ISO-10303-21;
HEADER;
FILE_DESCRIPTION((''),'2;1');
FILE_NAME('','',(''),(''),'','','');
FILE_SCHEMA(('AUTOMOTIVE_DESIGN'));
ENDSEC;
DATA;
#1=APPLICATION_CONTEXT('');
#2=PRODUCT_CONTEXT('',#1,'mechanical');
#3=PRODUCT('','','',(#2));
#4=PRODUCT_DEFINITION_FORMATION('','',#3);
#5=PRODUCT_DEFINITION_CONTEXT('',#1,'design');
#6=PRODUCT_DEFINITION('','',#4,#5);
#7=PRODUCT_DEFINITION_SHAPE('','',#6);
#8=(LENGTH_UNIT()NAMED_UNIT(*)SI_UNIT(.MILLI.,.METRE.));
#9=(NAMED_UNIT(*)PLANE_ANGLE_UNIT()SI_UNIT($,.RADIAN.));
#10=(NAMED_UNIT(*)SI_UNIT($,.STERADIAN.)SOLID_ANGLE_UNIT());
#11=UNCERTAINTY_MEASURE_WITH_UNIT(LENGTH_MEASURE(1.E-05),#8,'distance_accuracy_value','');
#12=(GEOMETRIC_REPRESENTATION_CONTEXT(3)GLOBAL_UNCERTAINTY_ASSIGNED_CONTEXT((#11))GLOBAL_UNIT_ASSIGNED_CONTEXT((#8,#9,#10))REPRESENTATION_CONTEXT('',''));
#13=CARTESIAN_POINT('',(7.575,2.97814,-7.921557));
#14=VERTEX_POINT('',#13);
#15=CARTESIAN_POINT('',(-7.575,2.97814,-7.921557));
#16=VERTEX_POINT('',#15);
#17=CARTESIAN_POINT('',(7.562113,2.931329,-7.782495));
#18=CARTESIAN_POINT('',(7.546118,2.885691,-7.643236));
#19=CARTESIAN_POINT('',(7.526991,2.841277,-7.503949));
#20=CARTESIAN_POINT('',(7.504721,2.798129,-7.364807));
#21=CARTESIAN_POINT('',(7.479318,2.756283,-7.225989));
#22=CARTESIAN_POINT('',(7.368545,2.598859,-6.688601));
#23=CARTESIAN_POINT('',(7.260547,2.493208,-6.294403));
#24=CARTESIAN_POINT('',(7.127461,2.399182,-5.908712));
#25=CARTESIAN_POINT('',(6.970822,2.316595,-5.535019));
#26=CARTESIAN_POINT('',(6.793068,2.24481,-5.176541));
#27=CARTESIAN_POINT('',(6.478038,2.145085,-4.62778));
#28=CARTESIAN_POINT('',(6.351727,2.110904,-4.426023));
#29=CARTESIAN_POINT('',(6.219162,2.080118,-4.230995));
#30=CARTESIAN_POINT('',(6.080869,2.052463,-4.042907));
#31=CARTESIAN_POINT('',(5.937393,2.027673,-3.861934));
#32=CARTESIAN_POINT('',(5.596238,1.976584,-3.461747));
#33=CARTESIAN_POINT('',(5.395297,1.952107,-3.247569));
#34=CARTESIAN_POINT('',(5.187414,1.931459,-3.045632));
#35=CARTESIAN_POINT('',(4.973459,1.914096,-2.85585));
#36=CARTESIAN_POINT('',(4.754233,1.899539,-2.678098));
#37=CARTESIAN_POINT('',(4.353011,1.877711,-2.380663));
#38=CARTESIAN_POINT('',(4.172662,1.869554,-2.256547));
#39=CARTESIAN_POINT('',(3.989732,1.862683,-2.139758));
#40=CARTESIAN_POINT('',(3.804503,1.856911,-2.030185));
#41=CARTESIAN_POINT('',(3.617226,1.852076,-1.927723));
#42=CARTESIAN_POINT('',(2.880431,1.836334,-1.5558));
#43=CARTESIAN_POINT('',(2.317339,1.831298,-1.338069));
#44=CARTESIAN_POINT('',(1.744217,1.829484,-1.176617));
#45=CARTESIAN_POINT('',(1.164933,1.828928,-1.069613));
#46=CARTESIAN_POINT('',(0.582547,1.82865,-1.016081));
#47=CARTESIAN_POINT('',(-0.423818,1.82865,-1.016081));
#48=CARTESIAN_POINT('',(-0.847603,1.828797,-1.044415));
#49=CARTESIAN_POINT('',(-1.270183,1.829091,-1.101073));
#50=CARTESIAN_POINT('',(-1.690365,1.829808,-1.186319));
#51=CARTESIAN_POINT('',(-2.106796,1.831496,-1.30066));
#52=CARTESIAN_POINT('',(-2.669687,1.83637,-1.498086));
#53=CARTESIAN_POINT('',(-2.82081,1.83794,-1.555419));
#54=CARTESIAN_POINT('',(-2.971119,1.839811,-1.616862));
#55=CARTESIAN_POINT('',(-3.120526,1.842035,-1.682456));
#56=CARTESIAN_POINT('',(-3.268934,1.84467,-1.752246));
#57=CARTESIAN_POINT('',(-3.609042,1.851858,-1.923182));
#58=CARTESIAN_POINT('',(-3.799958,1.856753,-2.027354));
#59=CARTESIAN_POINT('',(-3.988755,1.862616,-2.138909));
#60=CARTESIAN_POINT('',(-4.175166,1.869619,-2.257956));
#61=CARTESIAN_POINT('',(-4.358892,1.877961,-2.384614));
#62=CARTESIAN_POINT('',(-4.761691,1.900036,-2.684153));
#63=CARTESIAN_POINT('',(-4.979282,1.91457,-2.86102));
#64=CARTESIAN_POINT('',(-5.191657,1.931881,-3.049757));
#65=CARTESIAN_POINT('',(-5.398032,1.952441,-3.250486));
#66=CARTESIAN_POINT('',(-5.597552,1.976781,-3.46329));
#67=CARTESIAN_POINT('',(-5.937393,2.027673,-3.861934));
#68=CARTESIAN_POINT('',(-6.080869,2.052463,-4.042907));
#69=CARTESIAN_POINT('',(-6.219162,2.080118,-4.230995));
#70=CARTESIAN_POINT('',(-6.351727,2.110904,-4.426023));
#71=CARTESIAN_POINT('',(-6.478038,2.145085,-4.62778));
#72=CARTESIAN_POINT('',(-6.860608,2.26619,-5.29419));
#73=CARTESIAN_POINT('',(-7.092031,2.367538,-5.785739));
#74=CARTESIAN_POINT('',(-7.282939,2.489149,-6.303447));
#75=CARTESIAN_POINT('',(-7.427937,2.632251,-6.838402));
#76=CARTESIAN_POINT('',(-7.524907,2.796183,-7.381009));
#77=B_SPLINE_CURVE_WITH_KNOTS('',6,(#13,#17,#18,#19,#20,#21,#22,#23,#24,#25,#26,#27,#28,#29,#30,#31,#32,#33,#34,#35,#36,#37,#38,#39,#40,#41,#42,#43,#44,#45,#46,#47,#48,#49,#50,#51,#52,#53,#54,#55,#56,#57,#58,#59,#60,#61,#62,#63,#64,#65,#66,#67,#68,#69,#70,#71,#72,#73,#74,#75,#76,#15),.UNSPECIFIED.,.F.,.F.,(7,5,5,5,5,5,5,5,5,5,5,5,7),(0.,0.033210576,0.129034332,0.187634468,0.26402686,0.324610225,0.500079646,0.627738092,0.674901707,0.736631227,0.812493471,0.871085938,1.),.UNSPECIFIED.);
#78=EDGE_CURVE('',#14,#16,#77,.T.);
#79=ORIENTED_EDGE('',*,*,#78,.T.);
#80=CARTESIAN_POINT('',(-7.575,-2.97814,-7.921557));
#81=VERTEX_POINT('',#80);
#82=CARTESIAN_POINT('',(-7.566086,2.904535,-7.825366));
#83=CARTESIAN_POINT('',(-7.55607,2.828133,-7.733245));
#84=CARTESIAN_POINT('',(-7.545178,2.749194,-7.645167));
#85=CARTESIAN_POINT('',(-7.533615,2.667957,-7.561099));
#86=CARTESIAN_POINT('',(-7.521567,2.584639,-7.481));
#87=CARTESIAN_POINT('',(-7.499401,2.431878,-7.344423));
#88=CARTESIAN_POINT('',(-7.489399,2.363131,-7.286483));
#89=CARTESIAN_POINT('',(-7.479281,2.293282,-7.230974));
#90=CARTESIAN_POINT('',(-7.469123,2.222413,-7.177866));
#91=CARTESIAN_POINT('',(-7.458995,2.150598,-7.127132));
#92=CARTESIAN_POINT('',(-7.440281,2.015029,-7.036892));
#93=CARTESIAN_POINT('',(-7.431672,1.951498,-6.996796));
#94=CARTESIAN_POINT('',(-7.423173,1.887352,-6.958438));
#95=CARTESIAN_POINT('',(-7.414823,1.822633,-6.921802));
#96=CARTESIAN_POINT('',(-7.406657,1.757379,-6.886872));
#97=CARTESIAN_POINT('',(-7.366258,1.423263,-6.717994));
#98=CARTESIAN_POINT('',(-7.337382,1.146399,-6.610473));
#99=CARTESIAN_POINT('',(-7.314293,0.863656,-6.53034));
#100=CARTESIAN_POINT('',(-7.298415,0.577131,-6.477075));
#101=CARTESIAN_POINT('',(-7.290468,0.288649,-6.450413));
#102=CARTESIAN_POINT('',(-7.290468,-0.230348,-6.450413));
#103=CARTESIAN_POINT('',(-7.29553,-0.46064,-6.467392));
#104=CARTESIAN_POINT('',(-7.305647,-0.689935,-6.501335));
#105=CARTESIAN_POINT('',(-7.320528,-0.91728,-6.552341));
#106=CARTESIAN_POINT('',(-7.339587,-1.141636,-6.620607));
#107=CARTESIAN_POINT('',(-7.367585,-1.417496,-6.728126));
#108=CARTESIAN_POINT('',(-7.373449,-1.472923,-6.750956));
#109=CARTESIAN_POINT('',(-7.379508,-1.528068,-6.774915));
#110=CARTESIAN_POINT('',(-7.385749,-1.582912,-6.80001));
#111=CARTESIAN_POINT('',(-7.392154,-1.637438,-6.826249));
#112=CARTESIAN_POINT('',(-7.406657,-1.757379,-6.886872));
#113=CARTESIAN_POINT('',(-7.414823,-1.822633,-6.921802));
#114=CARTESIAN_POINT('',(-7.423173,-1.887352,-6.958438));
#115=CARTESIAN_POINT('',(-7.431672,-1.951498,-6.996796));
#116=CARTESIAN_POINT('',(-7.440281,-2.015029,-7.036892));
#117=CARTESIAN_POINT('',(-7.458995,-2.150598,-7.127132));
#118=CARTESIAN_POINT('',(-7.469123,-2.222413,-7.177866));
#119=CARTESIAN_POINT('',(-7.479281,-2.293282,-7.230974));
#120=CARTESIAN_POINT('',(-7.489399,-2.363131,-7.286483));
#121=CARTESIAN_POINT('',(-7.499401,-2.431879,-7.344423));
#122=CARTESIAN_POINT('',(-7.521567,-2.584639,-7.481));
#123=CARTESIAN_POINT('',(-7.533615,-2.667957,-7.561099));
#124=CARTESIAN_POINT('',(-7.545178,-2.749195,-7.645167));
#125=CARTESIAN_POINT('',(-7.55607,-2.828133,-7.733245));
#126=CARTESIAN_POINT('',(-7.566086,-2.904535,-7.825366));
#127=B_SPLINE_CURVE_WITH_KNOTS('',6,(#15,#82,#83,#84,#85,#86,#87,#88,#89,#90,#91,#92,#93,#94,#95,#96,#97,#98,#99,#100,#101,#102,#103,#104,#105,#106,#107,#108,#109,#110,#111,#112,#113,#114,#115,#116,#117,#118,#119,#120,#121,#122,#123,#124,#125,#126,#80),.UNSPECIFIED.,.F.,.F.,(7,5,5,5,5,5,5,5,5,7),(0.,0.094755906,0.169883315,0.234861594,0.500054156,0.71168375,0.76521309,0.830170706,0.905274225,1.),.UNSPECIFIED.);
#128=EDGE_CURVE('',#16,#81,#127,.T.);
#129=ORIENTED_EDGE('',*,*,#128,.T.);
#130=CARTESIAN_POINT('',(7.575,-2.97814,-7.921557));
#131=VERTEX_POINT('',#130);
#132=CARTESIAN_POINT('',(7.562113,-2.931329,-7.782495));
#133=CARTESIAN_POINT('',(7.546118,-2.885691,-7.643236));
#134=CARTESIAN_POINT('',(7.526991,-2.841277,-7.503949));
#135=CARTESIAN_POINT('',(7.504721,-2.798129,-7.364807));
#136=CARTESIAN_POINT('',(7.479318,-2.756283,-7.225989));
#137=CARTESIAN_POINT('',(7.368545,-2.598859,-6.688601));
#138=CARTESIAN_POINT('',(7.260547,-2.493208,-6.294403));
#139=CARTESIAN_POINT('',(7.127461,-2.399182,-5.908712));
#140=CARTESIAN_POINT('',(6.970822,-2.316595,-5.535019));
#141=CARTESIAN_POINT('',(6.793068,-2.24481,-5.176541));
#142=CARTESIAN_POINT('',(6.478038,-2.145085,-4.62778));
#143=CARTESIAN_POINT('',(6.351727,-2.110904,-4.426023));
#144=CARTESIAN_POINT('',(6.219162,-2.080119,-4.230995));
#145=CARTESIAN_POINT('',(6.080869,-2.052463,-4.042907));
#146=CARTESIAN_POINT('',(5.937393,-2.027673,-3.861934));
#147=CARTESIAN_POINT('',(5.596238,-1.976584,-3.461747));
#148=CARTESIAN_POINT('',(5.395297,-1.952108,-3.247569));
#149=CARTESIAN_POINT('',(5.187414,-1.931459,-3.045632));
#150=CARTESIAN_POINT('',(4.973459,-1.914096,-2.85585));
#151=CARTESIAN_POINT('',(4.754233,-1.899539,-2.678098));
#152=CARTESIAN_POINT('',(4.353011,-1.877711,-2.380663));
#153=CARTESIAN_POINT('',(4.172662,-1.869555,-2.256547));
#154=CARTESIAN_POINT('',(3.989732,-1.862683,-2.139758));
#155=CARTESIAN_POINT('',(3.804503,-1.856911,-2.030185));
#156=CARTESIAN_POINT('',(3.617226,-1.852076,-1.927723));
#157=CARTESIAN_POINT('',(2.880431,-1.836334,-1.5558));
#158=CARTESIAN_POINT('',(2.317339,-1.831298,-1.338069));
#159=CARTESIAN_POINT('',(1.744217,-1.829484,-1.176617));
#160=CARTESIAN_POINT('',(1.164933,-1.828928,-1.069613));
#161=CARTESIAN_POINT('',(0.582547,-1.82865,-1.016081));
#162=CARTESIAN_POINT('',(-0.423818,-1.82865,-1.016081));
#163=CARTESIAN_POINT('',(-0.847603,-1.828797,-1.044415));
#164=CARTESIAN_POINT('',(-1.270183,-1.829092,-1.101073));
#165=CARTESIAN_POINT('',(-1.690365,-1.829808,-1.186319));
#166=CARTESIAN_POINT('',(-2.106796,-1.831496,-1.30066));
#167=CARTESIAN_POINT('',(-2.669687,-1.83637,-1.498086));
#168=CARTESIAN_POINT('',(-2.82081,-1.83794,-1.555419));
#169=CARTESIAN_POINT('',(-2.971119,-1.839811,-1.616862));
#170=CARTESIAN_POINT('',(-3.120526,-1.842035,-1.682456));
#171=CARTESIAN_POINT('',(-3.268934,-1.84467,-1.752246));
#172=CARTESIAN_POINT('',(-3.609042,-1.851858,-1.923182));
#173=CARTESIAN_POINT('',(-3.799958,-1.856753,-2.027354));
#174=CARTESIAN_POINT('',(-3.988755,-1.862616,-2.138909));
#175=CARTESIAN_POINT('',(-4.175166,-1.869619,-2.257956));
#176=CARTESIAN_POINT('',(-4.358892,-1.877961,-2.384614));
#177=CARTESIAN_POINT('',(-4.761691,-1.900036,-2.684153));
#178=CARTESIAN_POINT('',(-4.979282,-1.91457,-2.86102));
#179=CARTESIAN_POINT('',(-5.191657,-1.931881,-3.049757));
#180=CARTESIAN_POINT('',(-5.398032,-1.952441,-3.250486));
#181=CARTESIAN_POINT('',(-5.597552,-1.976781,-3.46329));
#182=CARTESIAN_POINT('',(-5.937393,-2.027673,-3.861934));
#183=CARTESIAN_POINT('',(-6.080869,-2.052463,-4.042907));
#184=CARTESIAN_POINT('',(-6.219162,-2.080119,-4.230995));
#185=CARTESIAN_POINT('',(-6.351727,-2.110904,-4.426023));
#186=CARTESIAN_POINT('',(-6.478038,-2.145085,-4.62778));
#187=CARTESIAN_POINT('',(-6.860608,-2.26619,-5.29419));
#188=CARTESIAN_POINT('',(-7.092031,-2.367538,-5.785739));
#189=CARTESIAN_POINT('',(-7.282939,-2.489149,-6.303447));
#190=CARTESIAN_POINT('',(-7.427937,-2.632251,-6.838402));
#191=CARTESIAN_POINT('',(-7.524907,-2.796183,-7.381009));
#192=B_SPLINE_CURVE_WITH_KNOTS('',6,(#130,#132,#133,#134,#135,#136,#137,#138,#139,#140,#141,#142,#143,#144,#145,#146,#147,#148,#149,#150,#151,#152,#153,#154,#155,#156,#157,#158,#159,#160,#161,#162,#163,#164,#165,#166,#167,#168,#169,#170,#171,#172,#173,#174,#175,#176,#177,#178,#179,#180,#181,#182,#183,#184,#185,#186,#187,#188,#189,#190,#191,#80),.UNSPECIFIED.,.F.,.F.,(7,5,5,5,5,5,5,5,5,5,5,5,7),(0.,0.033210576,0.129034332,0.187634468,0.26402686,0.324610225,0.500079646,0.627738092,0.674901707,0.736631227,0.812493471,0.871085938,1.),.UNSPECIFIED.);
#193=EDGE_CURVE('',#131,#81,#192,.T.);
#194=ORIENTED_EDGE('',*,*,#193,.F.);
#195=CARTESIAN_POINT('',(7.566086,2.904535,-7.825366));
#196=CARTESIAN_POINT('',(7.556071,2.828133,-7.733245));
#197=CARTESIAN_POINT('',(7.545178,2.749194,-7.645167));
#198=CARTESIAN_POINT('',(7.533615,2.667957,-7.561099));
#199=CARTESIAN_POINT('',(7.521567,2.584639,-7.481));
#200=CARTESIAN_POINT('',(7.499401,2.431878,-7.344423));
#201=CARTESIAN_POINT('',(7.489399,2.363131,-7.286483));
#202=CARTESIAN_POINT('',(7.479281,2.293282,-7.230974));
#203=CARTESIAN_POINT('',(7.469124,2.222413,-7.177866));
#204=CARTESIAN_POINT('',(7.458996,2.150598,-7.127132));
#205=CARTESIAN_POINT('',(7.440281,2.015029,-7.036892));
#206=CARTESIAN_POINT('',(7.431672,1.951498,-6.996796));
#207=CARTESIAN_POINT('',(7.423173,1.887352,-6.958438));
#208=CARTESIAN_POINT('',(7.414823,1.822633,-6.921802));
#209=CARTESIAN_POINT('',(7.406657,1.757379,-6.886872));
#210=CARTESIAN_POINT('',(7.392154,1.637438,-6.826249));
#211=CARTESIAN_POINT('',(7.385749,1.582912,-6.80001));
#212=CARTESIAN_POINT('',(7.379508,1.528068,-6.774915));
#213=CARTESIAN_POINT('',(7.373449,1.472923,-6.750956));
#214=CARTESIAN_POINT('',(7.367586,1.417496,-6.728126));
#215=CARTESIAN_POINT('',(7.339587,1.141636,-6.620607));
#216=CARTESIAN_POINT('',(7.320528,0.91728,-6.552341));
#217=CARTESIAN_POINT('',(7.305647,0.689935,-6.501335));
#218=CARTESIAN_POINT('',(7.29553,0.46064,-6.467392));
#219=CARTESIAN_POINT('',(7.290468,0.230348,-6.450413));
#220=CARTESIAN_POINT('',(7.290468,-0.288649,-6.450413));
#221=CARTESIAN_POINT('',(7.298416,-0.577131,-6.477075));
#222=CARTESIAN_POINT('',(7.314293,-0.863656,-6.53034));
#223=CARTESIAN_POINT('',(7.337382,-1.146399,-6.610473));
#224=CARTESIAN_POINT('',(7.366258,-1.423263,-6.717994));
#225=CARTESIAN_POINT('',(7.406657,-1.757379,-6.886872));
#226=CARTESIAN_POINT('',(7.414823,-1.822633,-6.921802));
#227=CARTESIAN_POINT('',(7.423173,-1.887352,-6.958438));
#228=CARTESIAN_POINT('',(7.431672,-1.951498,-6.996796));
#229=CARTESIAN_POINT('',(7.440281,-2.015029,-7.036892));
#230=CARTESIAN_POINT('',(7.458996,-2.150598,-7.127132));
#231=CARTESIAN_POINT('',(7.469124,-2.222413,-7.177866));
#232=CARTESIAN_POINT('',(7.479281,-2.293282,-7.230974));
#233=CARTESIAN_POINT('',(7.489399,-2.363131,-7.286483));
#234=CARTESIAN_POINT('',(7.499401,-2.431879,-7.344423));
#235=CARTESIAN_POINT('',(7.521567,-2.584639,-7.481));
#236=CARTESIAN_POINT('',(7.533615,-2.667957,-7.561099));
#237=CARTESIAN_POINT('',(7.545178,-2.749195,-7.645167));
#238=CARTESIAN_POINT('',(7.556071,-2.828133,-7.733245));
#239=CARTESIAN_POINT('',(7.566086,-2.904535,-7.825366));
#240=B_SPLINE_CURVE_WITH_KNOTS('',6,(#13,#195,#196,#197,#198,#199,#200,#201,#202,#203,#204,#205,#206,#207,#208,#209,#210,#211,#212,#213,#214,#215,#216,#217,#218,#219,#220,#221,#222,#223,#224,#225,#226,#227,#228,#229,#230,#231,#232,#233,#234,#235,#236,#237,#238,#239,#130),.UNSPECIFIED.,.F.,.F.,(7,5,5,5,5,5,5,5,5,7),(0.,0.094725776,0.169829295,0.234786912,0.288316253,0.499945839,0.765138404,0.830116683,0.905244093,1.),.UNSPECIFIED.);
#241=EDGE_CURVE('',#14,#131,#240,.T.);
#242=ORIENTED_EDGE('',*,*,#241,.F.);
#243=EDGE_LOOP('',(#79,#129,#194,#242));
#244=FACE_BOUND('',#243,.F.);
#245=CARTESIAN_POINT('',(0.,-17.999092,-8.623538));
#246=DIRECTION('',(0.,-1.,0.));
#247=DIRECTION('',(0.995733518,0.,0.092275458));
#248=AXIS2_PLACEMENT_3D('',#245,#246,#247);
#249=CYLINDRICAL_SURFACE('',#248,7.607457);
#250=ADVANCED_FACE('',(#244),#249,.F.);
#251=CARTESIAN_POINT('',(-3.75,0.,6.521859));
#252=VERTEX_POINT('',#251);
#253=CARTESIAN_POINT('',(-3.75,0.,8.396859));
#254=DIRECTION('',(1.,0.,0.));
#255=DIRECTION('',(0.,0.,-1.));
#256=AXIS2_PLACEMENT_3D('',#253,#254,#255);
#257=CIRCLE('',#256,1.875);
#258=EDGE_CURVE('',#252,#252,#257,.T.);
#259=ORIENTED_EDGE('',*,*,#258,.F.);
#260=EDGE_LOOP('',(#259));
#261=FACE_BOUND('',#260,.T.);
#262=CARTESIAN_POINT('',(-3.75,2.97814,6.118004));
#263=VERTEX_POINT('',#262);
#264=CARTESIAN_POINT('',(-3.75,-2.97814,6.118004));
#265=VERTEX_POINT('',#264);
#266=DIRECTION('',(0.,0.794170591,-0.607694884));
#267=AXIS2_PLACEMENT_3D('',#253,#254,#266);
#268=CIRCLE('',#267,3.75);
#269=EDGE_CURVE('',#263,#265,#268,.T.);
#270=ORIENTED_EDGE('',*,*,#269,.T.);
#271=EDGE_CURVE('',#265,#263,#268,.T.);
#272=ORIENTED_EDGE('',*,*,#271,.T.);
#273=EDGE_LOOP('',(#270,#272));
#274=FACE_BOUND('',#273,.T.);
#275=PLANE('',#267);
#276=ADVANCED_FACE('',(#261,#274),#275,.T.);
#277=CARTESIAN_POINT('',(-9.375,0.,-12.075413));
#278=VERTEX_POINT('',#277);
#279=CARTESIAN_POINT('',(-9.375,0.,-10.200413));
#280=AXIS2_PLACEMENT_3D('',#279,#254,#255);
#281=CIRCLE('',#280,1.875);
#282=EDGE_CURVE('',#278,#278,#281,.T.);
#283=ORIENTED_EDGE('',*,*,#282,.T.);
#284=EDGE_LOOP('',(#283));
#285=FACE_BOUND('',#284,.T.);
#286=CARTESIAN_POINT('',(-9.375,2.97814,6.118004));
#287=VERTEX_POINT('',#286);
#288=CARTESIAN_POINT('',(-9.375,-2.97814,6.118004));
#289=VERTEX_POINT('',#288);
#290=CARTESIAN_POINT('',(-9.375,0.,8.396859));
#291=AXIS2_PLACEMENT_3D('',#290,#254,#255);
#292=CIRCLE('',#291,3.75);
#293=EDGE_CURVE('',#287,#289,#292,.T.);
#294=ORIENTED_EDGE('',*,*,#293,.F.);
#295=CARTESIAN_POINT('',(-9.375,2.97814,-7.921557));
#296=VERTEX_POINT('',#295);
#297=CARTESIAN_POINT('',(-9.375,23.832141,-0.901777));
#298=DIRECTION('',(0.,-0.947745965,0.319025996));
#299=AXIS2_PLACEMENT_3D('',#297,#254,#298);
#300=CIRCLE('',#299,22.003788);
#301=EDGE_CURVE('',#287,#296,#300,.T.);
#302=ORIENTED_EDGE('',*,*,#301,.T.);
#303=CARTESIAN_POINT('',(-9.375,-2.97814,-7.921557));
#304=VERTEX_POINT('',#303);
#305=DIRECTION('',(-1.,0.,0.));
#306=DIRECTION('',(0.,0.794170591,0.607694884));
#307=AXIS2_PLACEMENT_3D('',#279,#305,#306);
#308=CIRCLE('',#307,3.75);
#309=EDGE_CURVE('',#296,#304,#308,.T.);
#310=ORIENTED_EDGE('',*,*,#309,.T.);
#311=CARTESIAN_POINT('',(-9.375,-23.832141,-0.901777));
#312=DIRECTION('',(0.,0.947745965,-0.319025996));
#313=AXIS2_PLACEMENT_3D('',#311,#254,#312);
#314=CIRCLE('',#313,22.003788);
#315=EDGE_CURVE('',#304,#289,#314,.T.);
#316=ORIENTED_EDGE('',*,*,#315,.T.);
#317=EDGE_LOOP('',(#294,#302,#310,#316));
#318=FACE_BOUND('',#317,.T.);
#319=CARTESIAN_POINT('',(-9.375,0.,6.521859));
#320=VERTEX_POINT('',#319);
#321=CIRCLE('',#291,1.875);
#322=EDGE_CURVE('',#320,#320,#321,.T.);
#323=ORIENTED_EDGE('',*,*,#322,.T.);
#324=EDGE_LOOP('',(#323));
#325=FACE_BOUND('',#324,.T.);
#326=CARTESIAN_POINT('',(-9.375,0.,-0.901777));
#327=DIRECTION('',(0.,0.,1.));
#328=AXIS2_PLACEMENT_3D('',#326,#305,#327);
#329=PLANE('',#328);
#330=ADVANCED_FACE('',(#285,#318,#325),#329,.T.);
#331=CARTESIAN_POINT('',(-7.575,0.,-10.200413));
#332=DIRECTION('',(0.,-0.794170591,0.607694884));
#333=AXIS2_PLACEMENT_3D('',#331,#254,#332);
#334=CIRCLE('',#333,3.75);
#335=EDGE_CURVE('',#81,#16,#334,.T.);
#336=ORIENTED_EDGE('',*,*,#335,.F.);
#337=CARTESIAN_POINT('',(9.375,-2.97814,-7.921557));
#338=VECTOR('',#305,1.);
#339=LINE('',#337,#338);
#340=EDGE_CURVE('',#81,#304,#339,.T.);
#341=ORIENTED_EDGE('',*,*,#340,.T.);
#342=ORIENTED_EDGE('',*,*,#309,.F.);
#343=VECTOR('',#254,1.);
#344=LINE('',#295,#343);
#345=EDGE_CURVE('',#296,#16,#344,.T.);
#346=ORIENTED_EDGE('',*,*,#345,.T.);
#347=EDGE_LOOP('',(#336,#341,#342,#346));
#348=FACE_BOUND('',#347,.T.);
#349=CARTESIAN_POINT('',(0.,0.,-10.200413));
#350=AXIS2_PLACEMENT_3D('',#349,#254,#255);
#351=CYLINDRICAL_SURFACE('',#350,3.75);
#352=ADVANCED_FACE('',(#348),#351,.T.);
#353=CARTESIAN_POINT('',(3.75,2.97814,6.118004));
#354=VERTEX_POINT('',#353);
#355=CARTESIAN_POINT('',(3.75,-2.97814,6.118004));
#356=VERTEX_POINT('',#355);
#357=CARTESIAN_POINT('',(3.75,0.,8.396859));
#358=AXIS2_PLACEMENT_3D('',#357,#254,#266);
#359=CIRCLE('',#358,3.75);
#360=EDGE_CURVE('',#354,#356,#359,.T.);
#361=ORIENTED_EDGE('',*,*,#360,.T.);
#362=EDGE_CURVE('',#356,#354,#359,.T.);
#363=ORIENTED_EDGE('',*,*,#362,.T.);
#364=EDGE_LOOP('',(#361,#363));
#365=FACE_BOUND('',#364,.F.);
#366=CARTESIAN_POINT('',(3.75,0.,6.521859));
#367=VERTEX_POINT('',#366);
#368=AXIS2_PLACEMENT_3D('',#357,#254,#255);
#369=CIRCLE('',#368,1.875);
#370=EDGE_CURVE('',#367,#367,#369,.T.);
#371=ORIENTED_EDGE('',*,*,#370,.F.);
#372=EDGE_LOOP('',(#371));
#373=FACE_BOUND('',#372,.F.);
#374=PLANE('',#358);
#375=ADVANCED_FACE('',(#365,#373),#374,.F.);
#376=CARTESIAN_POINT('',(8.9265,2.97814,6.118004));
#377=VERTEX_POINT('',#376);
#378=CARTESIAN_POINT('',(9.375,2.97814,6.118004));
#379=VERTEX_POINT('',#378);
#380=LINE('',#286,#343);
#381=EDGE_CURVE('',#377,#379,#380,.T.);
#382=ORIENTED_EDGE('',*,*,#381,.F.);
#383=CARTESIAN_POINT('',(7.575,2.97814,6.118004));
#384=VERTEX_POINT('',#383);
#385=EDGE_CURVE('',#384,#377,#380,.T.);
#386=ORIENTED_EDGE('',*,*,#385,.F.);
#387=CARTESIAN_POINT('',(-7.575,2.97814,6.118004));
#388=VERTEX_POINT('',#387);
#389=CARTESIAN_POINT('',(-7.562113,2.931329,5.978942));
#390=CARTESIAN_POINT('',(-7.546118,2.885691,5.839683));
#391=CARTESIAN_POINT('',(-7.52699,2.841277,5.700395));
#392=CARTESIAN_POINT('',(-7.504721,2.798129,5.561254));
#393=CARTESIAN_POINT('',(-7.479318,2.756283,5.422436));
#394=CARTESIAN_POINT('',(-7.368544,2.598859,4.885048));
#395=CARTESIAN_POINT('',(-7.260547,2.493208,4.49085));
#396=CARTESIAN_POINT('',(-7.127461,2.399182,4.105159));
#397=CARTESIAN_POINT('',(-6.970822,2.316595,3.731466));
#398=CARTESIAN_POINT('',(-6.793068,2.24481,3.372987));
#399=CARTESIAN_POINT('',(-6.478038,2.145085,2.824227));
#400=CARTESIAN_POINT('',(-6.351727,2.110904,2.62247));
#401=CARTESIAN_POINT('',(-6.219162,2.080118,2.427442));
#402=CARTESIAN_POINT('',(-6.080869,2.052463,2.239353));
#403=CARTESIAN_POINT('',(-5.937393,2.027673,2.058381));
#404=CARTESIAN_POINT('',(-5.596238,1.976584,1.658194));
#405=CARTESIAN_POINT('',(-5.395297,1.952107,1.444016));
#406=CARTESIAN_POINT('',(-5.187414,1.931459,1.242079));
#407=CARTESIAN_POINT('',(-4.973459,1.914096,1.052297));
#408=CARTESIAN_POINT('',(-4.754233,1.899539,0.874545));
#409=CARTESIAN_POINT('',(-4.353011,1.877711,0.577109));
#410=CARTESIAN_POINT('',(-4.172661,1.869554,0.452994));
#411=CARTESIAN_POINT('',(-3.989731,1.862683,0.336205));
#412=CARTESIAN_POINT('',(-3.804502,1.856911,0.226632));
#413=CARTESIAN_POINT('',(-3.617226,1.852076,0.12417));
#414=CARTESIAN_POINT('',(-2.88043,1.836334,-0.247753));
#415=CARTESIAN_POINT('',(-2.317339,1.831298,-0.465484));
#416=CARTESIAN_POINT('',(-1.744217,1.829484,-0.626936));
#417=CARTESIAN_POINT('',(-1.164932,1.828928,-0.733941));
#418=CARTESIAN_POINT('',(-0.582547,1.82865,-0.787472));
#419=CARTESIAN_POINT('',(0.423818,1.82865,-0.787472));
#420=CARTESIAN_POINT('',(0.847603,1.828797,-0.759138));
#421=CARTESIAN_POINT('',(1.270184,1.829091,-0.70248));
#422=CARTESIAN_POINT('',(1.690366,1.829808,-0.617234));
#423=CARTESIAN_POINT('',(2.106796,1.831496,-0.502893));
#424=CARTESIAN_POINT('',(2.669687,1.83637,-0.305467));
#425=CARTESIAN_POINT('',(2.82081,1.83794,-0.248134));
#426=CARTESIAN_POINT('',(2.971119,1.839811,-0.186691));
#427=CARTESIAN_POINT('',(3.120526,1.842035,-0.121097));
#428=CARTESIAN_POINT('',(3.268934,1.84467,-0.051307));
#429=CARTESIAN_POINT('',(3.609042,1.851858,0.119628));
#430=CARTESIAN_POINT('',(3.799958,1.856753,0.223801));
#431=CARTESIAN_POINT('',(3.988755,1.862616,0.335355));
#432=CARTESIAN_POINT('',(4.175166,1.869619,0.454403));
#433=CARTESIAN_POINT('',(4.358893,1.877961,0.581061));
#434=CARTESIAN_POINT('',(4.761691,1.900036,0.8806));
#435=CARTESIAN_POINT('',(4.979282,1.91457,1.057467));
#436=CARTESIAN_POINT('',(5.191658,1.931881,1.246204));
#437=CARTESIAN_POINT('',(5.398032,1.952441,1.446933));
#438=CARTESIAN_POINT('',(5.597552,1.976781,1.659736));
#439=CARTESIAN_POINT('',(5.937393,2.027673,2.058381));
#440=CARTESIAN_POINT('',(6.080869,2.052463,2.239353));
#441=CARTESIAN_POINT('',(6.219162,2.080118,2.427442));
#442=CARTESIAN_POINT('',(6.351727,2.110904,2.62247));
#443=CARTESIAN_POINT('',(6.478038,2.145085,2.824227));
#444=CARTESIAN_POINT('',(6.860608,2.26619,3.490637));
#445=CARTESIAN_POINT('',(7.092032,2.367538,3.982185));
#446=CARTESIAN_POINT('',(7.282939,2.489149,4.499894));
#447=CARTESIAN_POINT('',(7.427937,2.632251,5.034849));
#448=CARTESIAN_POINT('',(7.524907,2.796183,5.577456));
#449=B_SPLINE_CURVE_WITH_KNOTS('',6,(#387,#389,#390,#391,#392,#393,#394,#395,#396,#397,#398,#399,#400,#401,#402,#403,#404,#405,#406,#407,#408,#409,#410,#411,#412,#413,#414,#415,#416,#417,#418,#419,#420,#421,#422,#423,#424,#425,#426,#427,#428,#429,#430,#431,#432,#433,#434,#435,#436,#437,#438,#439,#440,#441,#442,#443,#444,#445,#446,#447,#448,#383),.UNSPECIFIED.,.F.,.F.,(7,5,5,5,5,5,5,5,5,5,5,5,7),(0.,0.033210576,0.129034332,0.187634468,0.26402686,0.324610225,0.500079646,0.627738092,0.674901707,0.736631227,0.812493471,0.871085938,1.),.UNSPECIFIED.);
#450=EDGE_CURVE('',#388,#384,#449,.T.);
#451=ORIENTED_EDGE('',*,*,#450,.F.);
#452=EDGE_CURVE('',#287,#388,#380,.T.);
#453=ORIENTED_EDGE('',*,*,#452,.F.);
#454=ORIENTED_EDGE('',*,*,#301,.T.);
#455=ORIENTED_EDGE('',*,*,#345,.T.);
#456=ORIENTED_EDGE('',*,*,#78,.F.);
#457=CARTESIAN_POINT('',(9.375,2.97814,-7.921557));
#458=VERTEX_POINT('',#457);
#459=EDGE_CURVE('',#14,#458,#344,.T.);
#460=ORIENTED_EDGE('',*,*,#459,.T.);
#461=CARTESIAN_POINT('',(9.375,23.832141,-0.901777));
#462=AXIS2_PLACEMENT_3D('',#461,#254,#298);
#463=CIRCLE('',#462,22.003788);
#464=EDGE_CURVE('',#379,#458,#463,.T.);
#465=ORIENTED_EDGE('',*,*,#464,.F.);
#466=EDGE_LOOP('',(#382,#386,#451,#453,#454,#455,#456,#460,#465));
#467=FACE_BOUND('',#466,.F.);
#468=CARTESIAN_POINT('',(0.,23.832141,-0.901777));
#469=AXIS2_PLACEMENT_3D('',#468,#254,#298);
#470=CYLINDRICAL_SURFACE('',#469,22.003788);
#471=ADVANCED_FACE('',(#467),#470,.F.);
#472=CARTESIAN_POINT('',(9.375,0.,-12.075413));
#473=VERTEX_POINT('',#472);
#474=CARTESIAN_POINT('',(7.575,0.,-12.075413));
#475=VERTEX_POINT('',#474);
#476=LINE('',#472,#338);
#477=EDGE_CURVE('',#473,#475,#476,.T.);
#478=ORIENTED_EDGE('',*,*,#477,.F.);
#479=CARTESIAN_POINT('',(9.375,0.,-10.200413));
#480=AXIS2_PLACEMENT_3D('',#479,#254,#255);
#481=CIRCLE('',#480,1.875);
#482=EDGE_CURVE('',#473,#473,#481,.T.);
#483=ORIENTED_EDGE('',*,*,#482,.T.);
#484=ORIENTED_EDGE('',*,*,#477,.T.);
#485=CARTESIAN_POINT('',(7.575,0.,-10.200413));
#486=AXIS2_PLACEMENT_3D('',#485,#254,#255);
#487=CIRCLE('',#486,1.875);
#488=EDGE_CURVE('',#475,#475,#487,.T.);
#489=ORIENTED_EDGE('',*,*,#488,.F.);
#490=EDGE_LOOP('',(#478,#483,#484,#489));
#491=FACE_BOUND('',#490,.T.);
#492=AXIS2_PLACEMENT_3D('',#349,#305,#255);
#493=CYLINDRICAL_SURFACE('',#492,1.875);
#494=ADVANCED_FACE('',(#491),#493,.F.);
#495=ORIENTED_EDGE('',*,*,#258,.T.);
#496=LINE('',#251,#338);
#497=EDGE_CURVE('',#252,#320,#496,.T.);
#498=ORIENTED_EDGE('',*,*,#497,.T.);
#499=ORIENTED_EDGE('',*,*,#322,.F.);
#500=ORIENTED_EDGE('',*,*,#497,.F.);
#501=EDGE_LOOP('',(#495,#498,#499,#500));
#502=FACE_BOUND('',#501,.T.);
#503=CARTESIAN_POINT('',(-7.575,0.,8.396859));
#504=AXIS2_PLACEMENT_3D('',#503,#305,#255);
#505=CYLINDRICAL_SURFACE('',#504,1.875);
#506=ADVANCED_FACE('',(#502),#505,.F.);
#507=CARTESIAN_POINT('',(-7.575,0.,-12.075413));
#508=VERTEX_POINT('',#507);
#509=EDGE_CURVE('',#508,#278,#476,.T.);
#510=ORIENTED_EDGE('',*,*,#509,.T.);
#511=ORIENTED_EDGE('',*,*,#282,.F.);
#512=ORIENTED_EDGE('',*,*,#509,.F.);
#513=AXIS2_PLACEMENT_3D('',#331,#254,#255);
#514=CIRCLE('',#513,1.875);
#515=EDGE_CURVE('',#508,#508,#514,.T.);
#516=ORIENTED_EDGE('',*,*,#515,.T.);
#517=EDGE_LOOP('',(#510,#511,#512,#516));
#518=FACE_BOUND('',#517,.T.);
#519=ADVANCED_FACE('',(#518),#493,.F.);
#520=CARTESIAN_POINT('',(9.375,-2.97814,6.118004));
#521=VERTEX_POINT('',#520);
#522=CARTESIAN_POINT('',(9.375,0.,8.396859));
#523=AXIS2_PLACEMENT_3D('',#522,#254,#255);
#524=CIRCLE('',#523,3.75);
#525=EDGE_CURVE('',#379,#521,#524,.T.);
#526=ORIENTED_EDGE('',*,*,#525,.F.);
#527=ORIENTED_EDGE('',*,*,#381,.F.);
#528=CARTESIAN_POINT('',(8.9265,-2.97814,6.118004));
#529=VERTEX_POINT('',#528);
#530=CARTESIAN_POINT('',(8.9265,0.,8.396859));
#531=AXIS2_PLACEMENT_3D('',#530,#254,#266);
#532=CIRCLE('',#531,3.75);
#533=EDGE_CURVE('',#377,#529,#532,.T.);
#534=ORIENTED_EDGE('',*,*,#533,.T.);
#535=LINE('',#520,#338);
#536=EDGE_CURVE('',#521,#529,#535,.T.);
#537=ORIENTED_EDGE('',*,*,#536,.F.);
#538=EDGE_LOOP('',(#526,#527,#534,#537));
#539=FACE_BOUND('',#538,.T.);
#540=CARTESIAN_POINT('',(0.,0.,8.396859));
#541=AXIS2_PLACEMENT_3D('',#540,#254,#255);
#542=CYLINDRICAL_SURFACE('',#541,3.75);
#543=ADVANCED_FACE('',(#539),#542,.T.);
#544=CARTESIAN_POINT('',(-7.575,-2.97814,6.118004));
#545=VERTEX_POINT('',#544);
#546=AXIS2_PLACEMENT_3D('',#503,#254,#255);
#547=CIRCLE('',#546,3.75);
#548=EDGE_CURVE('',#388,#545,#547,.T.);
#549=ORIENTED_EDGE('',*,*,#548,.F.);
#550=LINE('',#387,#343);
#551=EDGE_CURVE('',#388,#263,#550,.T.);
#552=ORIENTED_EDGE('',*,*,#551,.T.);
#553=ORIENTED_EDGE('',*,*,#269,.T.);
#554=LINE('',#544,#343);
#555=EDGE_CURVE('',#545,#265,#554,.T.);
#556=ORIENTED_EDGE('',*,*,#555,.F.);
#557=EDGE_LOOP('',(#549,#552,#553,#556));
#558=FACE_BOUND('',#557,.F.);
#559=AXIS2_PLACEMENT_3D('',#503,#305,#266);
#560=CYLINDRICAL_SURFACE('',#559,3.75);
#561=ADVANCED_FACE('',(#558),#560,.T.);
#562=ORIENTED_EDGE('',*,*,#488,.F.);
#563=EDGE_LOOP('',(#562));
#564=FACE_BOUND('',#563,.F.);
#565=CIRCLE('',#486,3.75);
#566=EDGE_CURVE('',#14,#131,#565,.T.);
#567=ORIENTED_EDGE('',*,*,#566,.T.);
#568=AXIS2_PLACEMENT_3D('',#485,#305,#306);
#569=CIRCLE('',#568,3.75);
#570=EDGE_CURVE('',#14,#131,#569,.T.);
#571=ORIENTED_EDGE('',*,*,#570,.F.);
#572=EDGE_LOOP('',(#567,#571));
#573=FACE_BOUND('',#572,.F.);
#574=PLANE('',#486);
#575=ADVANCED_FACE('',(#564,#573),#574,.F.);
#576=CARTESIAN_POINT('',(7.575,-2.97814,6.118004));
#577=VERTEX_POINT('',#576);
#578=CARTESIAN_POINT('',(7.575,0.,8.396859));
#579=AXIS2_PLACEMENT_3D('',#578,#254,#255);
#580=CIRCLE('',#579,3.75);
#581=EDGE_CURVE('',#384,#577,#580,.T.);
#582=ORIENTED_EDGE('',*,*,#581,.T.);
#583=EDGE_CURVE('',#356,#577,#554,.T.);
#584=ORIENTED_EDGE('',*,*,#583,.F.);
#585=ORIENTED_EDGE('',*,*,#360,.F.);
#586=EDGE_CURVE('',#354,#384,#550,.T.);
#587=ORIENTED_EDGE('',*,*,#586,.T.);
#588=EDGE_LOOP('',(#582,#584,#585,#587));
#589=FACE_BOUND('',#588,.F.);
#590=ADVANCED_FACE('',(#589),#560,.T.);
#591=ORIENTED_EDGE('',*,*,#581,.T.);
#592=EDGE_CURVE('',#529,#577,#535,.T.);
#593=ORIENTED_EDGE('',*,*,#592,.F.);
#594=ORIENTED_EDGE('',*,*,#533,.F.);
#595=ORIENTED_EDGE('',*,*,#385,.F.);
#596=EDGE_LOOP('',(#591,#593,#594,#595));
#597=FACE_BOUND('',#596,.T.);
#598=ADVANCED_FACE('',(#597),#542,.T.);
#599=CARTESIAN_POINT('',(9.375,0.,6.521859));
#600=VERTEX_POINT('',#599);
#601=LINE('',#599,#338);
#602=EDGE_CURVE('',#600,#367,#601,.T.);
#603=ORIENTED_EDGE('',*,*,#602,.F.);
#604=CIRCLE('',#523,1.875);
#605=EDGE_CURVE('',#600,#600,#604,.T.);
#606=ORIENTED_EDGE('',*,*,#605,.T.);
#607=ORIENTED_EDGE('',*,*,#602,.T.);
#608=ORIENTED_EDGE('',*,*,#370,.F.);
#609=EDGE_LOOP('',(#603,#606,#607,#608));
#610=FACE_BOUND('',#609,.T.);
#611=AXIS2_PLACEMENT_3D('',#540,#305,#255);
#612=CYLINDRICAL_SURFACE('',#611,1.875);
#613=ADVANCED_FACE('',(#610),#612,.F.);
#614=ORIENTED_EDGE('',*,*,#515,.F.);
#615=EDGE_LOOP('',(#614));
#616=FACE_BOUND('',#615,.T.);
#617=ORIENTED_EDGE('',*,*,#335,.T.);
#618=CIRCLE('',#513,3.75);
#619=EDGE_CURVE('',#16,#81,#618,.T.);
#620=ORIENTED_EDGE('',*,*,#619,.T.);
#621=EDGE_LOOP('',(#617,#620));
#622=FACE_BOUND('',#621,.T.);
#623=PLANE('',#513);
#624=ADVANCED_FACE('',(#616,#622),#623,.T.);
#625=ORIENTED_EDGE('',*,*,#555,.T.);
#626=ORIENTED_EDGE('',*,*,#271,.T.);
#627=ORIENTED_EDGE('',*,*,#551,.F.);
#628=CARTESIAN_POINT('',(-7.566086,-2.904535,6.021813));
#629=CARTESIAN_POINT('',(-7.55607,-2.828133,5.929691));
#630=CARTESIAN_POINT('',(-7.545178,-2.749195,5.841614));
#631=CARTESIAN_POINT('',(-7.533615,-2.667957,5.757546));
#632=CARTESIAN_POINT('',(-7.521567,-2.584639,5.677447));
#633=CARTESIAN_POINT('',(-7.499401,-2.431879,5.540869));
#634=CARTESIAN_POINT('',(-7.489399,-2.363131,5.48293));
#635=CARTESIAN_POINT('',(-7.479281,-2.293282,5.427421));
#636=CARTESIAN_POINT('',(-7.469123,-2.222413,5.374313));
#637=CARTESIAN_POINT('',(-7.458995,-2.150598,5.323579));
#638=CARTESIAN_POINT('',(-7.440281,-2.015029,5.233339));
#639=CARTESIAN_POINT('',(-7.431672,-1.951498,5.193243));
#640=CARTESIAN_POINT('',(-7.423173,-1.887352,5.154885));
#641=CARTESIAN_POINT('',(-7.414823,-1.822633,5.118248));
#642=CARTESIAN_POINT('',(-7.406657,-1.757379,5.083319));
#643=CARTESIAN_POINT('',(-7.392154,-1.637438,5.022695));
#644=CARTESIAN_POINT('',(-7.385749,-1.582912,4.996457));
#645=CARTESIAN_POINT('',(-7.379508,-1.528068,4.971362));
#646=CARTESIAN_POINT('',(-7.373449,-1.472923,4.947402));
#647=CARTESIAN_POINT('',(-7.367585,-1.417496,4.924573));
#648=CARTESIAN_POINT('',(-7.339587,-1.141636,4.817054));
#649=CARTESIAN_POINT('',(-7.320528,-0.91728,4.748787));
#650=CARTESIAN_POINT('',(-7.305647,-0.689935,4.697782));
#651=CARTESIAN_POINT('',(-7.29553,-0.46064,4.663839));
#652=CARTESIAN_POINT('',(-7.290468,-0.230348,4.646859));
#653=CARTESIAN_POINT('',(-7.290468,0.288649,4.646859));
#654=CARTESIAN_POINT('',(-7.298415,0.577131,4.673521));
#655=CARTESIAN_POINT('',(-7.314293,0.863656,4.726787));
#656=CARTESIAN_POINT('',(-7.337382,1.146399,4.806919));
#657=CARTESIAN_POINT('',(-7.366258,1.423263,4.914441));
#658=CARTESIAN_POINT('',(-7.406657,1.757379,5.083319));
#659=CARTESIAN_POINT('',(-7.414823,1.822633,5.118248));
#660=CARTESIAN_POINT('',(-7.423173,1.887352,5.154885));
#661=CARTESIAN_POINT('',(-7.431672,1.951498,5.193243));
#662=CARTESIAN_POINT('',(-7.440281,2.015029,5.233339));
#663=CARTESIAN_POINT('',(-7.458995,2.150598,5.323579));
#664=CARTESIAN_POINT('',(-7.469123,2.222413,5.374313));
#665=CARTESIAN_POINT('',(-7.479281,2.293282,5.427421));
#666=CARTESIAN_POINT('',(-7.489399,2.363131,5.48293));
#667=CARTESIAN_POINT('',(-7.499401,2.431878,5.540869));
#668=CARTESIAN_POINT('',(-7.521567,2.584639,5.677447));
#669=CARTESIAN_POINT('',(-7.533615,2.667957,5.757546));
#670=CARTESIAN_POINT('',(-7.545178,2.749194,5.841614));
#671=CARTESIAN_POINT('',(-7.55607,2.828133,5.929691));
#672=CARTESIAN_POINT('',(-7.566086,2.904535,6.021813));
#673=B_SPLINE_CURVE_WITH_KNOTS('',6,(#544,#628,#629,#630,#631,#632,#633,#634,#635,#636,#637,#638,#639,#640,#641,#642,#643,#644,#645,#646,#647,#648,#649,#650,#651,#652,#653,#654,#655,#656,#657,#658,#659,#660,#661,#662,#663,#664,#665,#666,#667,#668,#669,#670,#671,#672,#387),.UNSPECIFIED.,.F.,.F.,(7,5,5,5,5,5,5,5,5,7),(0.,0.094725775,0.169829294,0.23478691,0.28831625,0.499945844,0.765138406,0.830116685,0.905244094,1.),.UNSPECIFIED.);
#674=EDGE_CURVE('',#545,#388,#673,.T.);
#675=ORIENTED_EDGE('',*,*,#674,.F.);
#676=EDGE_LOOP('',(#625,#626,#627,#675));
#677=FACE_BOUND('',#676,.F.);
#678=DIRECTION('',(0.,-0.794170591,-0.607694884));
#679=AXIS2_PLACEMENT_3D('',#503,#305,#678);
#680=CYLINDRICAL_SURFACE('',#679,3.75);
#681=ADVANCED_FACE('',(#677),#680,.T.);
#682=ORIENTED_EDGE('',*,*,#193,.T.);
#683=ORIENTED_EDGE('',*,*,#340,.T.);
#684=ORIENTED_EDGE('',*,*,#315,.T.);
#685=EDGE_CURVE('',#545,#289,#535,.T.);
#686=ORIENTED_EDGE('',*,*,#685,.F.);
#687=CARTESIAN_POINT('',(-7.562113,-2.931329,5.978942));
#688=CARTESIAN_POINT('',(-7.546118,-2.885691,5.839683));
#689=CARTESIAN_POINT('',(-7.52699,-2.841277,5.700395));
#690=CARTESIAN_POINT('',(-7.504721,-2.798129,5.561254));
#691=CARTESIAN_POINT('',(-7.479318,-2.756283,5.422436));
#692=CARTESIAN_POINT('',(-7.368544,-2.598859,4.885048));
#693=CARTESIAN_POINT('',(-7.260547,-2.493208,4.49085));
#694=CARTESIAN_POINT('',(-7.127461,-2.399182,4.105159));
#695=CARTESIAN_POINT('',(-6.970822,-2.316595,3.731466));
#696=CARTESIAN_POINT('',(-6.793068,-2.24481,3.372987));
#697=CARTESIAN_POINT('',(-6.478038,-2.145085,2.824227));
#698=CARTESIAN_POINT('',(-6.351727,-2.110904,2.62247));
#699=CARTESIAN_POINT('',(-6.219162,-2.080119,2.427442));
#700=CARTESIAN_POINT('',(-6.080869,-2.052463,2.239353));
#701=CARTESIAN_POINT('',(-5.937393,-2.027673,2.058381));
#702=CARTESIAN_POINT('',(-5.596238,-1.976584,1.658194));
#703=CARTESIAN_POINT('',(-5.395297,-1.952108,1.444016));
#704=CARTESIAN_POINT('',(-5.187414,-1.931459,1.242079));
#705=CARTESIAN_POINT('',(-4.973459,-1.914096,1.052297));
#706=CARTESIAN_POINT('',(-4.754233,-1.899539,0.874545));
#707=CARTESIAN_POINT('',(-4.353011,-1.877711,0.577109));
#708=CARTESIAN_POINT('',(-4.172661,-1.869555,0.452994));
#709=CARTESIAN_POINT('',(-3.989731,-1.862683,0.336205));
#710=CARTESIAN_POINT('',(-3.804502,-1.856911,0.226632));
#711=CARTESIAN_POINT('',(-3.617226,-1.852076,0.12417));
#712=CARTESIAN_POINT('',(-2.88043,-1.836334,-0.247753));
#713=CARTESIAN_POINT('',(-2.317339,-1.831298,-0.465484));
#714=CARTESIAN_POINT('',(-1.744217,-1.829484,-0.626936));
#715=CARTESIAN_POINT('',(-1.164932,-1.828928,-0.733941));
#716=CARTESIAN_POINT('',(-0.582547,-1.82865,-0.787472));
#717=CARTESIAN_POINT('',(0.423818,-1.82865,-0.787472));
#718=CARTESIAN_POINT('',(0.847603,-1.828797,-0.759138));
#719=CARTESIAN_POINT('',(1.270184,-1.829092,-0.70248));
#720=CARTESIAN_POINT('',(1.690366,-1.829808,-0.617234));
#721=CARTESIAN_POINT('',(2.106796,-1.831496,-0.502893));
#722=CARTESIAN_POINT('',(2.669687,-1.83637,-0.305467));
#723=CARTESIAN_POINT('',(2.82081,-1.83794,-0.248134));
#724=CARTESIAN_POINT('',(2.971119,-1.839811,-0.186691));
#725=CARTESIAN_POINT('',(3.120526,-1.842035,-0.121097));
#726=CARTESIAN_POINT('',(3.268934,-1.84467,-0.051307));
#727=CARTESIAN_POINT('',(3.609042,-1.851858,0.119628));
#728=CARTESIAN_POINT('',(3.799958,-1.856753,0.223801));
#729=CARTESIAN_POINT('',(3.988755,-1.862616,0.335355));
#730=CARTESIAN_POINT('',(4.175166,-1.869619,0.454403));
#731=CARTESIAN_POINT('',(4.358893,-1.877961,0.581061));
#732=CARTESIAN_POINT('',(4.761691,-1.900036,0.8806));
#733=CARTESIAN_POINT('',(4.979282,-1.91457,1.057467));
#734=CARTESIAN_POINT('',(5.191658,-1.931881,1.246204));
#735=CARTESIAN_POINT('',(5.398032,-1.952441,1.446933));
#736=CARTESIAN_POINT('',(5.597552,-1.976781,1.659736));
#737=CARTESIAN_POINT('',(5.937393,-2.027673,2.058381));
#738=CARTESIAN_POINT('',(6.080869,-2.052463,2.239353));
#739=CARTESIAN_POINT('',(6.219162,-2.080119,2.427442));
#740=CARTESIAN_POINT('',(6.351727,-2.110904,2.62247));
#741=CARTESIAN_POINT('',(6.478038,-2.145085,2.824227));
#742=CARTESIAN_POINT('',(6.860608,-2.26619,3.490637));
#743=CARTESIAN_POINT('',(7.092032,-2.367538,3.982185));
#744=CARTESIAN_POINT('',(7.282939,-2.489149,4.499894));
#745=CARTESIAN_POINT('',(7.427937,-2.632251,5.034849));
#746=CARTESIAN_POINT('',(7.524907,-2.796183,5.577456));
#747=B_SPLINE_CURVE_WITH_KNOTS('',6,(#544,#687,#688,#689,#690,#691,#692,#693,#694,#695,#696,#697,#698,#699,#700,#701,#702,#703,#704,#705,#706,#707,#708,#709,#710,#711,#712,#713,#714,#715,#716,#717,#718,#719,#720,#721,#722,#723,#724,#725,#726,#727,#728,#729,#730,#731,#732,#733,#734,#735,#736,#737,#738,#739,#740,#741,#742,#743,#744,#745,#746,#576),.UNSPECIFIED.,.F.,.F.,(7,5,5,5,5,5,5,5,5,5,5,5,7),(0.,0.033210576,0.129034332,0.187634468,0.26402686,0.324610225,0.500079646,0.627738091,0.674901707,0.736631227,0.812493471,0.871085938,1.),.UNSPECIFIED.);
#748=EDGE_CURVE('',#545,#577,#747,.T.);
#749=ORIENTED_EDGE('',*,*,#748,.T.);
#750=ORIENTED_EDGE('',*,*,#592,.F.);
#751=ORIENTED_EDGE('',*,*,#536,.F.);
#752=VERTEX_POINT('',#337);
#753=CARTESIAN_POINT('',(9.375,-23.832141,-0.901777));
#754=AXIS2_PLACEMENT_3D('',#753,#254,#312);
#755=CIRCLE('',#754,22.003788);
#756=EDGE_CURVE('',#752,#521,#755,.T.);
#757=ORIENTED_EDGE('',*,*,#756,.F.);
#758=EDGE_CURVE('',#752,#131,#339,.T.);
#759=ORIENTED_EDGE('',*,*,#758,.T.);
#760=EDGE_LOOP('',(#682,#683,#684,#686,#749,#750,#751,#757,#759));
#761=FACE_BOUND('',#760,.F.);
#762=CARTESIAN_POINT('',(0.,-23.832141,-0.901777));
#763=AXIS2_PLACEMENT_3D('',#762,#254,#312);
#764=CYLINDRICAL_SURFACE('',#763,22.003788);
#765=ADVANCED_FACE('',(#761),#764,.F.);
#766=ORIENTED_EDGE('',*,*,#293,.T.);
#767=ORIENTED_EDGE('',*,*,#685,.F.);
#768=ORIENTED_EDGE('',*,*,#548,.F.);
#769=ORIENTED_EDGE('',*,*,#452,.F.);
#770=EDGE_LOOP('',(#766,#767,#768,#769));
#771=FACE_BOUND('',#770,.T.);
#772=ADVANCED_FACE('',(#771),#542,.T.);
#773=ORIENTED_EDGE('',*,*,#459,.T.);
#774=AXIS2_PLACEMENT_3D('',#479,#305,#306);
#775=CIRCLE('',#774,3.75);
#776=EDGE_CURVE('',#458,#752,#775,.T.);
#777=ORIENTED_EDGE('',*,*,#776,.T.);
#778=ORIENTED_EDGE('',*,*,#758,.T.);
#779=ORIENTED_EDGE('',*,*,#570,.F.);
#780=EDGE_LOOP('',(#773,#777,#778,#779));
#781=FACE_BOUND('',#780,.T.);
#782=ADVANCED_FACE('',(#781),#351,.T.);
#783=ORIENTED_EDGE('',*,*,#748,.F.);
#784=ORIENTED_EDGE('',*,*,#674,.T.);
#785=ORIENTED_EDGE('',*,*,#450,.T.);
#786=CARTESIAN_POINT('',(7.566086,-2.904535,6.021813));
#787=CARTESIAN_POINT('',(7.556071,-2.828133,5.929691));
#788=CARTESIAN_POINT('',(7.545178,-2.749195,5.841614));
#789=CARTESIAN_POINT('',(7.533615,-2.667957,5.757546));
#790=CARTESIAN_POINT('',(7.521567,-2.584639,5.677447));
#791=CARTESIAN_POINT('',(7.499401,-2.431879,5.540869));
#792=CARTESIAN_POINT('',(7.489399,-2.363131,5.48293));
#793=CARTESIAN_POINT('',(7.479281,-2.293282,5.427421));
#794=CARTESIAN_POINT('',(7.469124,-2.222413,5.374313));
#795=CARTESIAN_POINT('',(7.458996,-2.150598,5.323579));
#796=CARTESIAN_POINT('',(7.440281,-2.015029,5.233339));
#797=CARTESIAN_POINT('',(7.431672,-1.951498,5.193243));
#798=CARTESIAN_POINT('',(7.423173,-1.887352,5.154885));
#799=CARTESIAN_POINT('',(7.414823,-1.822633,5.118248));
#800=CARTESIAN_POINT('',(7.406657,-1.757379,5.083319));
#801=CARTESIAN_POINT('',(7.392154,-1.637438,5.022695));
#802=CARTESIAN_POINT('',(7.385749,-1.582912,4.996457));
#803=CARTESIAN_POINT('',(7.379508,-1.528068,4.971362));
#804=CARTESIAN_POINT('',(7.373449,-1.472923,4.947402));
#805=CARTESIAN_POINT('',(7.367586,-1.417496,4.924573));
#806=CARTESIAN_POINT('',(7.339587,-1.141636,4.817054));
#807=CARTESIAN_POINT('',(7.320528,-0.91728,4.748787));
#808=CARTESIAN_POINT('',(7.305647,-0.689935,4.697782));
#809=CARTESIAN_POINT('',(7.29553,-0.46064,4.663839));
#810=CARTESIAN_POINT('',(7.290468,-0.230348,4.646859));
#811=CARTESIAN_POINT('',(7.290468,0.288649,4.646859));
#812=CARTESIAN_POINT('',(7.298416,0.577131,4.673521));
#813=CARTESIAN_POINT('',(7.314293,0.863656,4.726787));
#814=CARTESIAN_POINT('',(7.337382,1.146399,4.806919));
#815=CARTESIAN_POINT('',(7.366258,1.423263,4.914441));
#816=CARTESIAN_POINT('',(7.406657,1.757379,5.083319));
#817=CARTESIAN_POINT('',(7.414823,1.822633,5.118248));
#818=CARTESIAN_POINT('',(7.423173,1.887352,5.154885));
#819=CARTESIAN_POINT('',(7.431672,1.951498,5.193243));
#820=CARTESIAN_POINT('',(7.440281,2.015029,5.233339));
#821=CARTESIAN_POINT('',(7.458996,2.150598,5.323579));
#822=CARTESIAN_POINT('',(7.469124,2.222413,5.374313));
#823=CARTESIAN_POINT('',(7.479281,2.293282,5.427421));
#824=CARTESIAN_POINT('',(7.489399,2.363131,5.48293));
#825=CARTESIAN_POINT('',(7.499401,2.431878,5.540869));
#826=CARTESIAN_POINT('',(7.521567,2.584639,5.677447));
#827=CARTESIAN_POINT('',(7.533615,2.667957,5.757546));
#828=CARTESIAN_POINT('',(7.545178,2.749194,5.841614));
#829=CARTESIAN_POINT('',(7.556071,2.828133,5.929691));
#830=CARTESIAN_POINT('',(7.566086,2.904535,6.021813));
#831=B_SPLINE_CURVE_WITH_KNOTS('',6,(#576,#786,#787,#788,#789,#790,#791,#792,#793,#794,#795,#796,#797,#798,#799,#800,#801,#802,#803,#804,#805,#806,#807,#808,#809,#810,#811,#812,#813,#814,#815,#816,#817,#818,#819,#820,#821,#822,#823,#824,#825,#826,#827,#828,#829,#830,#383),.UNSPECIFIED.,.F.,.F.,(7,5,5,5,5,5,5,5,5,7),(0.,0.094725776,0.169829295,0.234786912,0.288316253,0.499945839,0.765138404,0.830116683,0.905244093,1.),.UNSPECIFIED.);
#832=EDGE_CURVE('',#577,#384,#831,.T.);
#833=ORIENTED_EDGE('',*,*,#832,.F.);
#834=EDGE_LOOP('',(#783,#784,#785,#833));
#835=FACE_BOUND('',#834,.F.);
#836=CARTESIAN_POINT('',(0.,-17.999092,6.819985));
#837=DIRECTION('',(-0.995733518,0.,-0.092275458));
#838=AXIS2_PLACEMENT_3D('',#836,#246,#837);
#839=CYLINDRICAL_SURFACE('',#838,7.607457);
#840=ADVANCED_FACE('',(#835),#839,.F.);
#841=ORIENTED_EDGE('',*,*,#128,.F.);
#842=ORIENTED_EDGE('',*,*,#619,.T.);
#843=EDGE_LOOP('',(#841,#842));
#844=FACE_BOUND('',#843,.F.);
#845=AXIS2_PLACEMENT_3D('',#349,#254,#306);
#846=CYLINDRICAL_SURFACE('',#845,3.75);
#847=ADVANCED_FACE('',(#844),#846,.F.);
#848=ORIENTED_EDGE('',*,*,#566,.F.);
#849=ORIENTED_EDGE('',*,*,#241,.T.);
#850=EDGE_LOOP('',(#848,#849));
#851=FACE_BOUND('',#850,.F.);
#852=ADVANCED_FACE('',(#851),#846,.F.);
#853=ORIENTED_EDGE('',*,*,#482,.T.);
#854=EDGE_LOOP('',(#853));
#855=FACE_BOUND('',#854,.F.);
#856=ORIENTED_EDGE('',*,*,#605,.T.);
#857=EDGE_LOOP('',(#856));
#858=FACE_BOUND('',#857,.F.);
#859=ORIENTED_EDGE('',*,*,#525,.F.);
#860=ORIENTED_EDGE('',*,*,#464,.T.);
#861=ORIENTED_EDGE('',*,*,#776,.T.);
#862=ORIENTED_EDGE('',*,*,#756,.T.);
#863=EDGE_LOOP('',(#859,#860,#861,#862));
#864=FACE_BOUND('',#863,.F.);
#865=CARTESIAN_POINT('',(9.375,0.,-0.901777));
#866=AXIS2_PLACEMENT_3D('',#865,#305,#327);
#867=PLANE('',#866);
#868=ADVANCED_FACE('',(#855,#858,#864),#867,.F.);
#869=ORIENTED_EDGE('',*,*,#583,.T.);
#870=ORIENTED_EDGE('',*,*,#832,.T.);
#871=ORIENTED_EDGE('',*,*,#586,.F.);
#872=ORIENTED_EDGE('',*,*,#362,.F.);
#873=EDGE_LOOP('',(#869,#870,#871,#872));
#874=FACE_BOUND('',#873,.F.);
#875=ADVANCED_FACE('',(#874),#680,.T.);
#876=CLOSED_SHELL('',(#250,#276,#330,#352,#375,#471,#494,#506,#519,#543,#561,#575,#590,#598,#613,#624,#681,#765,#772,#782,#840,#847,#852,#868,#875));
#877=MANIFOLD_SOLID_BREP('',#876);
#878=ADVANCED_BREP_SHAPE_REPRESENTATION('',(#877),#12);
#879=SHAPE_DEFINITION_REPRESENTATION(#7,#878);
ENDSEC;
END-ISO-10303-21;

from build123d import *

# Parameters (mm, degrees)
SKETCH2_R               = 2.5
SKETCH2_R_2             = 1.25
BOSS_EXTRUDE1_DEPTH     = 6.25
BOSS_EXTRUDE1_2_DEPTH   = 6.25
SKETCH3_R               = 2.5
SKETCH3_R_2             = 1.25
CUT_EXTRUDE1_DEPTH      = 5.05
BOSS_EXTRUDE2_DEPTH     = 6.25
CUT_EXTRUDE2_DEPTH      = 11.999394484
CUT_EXTRUDE2_DEPTH_BACK = 11.999394484
SKETCH6_R               = 1.25
BOSS_EXTRUDE3_DEPTH     = 11.001
SKETCH7_R               = 2.5
SKETCH7_R_2             = 1.25
CUT_EXTRUDE3_DEPTH      = 2.5
SCALE1_SCALE            = 1.5


with BuildPart() as part:
    # Sketch2 → Boss-Extrude1 (new, symmetric)
    with BuildSketch(Plane(origin=(0, 0, 0), x_dir=(0, 0, -1), z_dir=(1, 0, 0))):
        with Locations((6.1990907, 0)):
            Circle(SKETCH2_R)
        with Locations((6.1990907, 0)):
            Circle(SKETCH2_R_2, mode=Mode.SUBTRACT)
    extrude(amount=BOSS_EXTRUDE1_DEPTH, both=True)


with BuildPart() as body_2:
    # Sketch2 → Boss-Extrude1 2 (new, symmetric)
    with BuildSketch(Plane(origin=(0, 0, 0), x_dir=(0, 0, -1), z_dir=(1, 0, 0))):
        with Locations((-6.1990907, 0)):
            Circle(SKETCH2_R)
        with Locations((-6.1990907, 0)):
            Circle(SKETCH2_R_2, mode=Mode.SUBTRACT)
    extrude(amount=BOSS_EXTRUDE1_2_DEPTH, both=True)


with BuildPart() as cut_extrude1_tool:
    # Sketch3 → Cut-Extrude1 (new, symmetric)
    # profile 1 of 2: a face of its own
    with BuildSketch(Plane(origin=(0, 0, 0), x_dir=(0, 0, -1), z_dir=(1, 0, 0))):
        with Locations((6.1990907, 0)):
            Circle(SKETCH3_R)
        with Locations((6.1990907, 0)):
            Circle(SKETCH3_R_2, mode=Mode.SUBTRACT)
    # profile 2 of 2: a face of its own
    with BuildSketch(Plane(origin=(0, 0, 0), x_dir=(0, 0, -1), z_dir=(1, 0, 0))):
        with Locations((-6.1990907, 0)):
            Circle(SKETCH3_R)
        with Locations((-6.1990907, 0)):
            Circle(SKETCH3_R_2, mode=Mode.SUBTRACT)
    extrude(amount=CUT_EXTRUDE1_DEPTH, both=True)


with BuildPart() as part_1:
    add(part.part)

    # Cut-Extrude1: cut by cut_extrude1_tool
    add(cut_extrude1_tool.part, mode=Mode.SUBTRACT)


with BuildPart() as body_2_1:
    add(body_2.part)

    # Cut-Extrude1: cut by cut_extrude1_tool
    add(cut_extrude1_tool.part, mode=Mode.SUBTRACT)


with BuildPart() as cut_extrude1_piece_1:
    # of the separate pieces the step leaves, piece 1, a body of its own (cut_extrude1_pieces)
    add(part_1.part.solids().sort_by_distance((-6.25, 0, -8.6990907))[0])



with BuildPart() as cut_extrude1_piece_2:
    # of the separate pieces the step leaves, piece 2, a body of its own (cut_extrude1_pieces)
    add(part_1.part.solids().sort_by_distance((5.05, 0, -8.6990907))[0])


with BuildPart() as cut_extrude1_piece_1_of_body_2:
    # of the separate pieces the step leaves, piece 1, a body of its own (cut_extrude1_pieces_of_body_2)
    add(body_2_1.part.solids().sort_by_distance((-6.25, 0, 3.6990907))[0])


with BuildPart() as cut_extrude1_piece_2_of_body_2:
    # of the separate pieces the step leaves, piece 2, a body of its own (cut_extrude1_pieces_of_body_2)
    add(body_2_1.part.solids().sort_by_distance((5.05, 0, 3.6990907))[0])


with BuildPart() as cut_extrude1_piece_1_1:
    add(cut_extrude1_piece_1.part)

    add(cut_extrude1_piece_2.part)  # Boss-Extrude2 merges Cut-Extrude1 piece 2

    add(cut_extrude1_piece_1_of_body_2.part)  # Boss-Extrude2 merges Cut-Extrude1 piece 1 of body 2

    add(cut_extrude1_piece_2_of_body_2.part)  # Boss-Extrude2 merges Cut-Extrude1 piece 2 of body 2
    # Sketch4 → Boss-Extrude2 (add, symmetric)
    with BuildSketch(Plane(origin=(0, 0, 0), x_dir=(0, 0, -1), z_dir=(1, 0, 0))):
        with BuildLine():
            ThreePointArc((4.67985349, 1.985426478), (3.6990907, 0), (4.67985349, -1.985426478))
            ThreePointArc((4.67985349, -1.985426478), (0, -1.218902019), (-4.67985349, -1.985426478))
            ThreePointArc((-4.67985349, -1.985426478), (-3.6990907, 0), (-4.67985349, 1.985426478))
            ThreePointArc((-4.67985349, 1.985426478), (0, 1.218902019), (4.67985349, 1.985426478))
        make_face()
    extrude(amount=BOSS_EXTRUDE2_DEPTH, both=True)

    # Sketch5 → Cut-Extrude2 (cut, two sides: drawn at the far end of the back side and taken through both)
    with BuildSketch(Plane(origin=(0, 0, 0), x_dir=(1, 0, 0), z_dir=(0, 1, 0)).offset(-CUT_EXTRUDE2_DEPTH_BACK)):
        with BuildLine():
            Line((-5.05, 4.67985349), (5.05, 4.67985349))
            ThreePointArc((5.05, 4.67985349), (0, 0.076203165), (-5.05, 4.67985349))
        make_face()
        with BuildLine():
            Line((5.05, -4.67985349), (-5.05, -4.67985349))
            ThreePointArc((-5.05, -4.67985349), (0, -0.076203165), (5.05, -4.67985349))
        make_face()
    extrude(amount=CUT_EXTRUDE2_DEPTH + CUT_EXTRUDE2_DEPTH_BACK, mode=Mode.SUBTRACT)

    # Sketch6 → Boss-Extrude3 (add)
    with BuildSketch(Plane(origin=(-5.05, 0, 0), x_dir=(0, 0, -1), z_dir=(1, 0, 0))):
        with BuildLine():
            ThreePointArc((-4.67985349, 1.985426478), (-8.6990907, 0), (-4.67985349, -1.985426478))
            ThreePointArc((-4.67985349, -1.985426478), (-3.6990907, 0), (-4.67985349, 1.985426478))
        make_face()
        with Locations((-6.1990907, 0)):
            Circle(SKETCH6_R, mode=Mode.SUBTRACT)
    extrude(amount=BOSS_EXTRUDE3_DEPTH)

    # Sketch7 → Cut-Extrude3 (cut, symmetric)
    with BuildSketch(Plane(origin=(0, 0, 0), x_dir=(0, 0, -1), z_dir=(1, 0, 0))):
        with Locations(Location((-6.1990907, 0, 0), (0, 0, 52.576985937))):
            Circle(SKETCH7_R)
        with Locations((-6.1990907, 0)):
            Circle(SKETCH7_R_2, mode=Mode.SUBTRACT)
    extrude(amount=CUT_EXTRUDE3_DEPTH, both=True, mode=Mode.SUBTRACT)


with BuildPart() as cut_extrude1_piece_1_2:
    # Scale1: scaled about (-1.86e-07, 9.5e-08, 1.803553273)
    add(cut_extrude1_piece_1_1.part.scale(SCALE1_SCALE).moved(Location((9.3e-08, -4.8e-08, -0.901776636))))


solid = cut_extrude1_piece_1_2.part
